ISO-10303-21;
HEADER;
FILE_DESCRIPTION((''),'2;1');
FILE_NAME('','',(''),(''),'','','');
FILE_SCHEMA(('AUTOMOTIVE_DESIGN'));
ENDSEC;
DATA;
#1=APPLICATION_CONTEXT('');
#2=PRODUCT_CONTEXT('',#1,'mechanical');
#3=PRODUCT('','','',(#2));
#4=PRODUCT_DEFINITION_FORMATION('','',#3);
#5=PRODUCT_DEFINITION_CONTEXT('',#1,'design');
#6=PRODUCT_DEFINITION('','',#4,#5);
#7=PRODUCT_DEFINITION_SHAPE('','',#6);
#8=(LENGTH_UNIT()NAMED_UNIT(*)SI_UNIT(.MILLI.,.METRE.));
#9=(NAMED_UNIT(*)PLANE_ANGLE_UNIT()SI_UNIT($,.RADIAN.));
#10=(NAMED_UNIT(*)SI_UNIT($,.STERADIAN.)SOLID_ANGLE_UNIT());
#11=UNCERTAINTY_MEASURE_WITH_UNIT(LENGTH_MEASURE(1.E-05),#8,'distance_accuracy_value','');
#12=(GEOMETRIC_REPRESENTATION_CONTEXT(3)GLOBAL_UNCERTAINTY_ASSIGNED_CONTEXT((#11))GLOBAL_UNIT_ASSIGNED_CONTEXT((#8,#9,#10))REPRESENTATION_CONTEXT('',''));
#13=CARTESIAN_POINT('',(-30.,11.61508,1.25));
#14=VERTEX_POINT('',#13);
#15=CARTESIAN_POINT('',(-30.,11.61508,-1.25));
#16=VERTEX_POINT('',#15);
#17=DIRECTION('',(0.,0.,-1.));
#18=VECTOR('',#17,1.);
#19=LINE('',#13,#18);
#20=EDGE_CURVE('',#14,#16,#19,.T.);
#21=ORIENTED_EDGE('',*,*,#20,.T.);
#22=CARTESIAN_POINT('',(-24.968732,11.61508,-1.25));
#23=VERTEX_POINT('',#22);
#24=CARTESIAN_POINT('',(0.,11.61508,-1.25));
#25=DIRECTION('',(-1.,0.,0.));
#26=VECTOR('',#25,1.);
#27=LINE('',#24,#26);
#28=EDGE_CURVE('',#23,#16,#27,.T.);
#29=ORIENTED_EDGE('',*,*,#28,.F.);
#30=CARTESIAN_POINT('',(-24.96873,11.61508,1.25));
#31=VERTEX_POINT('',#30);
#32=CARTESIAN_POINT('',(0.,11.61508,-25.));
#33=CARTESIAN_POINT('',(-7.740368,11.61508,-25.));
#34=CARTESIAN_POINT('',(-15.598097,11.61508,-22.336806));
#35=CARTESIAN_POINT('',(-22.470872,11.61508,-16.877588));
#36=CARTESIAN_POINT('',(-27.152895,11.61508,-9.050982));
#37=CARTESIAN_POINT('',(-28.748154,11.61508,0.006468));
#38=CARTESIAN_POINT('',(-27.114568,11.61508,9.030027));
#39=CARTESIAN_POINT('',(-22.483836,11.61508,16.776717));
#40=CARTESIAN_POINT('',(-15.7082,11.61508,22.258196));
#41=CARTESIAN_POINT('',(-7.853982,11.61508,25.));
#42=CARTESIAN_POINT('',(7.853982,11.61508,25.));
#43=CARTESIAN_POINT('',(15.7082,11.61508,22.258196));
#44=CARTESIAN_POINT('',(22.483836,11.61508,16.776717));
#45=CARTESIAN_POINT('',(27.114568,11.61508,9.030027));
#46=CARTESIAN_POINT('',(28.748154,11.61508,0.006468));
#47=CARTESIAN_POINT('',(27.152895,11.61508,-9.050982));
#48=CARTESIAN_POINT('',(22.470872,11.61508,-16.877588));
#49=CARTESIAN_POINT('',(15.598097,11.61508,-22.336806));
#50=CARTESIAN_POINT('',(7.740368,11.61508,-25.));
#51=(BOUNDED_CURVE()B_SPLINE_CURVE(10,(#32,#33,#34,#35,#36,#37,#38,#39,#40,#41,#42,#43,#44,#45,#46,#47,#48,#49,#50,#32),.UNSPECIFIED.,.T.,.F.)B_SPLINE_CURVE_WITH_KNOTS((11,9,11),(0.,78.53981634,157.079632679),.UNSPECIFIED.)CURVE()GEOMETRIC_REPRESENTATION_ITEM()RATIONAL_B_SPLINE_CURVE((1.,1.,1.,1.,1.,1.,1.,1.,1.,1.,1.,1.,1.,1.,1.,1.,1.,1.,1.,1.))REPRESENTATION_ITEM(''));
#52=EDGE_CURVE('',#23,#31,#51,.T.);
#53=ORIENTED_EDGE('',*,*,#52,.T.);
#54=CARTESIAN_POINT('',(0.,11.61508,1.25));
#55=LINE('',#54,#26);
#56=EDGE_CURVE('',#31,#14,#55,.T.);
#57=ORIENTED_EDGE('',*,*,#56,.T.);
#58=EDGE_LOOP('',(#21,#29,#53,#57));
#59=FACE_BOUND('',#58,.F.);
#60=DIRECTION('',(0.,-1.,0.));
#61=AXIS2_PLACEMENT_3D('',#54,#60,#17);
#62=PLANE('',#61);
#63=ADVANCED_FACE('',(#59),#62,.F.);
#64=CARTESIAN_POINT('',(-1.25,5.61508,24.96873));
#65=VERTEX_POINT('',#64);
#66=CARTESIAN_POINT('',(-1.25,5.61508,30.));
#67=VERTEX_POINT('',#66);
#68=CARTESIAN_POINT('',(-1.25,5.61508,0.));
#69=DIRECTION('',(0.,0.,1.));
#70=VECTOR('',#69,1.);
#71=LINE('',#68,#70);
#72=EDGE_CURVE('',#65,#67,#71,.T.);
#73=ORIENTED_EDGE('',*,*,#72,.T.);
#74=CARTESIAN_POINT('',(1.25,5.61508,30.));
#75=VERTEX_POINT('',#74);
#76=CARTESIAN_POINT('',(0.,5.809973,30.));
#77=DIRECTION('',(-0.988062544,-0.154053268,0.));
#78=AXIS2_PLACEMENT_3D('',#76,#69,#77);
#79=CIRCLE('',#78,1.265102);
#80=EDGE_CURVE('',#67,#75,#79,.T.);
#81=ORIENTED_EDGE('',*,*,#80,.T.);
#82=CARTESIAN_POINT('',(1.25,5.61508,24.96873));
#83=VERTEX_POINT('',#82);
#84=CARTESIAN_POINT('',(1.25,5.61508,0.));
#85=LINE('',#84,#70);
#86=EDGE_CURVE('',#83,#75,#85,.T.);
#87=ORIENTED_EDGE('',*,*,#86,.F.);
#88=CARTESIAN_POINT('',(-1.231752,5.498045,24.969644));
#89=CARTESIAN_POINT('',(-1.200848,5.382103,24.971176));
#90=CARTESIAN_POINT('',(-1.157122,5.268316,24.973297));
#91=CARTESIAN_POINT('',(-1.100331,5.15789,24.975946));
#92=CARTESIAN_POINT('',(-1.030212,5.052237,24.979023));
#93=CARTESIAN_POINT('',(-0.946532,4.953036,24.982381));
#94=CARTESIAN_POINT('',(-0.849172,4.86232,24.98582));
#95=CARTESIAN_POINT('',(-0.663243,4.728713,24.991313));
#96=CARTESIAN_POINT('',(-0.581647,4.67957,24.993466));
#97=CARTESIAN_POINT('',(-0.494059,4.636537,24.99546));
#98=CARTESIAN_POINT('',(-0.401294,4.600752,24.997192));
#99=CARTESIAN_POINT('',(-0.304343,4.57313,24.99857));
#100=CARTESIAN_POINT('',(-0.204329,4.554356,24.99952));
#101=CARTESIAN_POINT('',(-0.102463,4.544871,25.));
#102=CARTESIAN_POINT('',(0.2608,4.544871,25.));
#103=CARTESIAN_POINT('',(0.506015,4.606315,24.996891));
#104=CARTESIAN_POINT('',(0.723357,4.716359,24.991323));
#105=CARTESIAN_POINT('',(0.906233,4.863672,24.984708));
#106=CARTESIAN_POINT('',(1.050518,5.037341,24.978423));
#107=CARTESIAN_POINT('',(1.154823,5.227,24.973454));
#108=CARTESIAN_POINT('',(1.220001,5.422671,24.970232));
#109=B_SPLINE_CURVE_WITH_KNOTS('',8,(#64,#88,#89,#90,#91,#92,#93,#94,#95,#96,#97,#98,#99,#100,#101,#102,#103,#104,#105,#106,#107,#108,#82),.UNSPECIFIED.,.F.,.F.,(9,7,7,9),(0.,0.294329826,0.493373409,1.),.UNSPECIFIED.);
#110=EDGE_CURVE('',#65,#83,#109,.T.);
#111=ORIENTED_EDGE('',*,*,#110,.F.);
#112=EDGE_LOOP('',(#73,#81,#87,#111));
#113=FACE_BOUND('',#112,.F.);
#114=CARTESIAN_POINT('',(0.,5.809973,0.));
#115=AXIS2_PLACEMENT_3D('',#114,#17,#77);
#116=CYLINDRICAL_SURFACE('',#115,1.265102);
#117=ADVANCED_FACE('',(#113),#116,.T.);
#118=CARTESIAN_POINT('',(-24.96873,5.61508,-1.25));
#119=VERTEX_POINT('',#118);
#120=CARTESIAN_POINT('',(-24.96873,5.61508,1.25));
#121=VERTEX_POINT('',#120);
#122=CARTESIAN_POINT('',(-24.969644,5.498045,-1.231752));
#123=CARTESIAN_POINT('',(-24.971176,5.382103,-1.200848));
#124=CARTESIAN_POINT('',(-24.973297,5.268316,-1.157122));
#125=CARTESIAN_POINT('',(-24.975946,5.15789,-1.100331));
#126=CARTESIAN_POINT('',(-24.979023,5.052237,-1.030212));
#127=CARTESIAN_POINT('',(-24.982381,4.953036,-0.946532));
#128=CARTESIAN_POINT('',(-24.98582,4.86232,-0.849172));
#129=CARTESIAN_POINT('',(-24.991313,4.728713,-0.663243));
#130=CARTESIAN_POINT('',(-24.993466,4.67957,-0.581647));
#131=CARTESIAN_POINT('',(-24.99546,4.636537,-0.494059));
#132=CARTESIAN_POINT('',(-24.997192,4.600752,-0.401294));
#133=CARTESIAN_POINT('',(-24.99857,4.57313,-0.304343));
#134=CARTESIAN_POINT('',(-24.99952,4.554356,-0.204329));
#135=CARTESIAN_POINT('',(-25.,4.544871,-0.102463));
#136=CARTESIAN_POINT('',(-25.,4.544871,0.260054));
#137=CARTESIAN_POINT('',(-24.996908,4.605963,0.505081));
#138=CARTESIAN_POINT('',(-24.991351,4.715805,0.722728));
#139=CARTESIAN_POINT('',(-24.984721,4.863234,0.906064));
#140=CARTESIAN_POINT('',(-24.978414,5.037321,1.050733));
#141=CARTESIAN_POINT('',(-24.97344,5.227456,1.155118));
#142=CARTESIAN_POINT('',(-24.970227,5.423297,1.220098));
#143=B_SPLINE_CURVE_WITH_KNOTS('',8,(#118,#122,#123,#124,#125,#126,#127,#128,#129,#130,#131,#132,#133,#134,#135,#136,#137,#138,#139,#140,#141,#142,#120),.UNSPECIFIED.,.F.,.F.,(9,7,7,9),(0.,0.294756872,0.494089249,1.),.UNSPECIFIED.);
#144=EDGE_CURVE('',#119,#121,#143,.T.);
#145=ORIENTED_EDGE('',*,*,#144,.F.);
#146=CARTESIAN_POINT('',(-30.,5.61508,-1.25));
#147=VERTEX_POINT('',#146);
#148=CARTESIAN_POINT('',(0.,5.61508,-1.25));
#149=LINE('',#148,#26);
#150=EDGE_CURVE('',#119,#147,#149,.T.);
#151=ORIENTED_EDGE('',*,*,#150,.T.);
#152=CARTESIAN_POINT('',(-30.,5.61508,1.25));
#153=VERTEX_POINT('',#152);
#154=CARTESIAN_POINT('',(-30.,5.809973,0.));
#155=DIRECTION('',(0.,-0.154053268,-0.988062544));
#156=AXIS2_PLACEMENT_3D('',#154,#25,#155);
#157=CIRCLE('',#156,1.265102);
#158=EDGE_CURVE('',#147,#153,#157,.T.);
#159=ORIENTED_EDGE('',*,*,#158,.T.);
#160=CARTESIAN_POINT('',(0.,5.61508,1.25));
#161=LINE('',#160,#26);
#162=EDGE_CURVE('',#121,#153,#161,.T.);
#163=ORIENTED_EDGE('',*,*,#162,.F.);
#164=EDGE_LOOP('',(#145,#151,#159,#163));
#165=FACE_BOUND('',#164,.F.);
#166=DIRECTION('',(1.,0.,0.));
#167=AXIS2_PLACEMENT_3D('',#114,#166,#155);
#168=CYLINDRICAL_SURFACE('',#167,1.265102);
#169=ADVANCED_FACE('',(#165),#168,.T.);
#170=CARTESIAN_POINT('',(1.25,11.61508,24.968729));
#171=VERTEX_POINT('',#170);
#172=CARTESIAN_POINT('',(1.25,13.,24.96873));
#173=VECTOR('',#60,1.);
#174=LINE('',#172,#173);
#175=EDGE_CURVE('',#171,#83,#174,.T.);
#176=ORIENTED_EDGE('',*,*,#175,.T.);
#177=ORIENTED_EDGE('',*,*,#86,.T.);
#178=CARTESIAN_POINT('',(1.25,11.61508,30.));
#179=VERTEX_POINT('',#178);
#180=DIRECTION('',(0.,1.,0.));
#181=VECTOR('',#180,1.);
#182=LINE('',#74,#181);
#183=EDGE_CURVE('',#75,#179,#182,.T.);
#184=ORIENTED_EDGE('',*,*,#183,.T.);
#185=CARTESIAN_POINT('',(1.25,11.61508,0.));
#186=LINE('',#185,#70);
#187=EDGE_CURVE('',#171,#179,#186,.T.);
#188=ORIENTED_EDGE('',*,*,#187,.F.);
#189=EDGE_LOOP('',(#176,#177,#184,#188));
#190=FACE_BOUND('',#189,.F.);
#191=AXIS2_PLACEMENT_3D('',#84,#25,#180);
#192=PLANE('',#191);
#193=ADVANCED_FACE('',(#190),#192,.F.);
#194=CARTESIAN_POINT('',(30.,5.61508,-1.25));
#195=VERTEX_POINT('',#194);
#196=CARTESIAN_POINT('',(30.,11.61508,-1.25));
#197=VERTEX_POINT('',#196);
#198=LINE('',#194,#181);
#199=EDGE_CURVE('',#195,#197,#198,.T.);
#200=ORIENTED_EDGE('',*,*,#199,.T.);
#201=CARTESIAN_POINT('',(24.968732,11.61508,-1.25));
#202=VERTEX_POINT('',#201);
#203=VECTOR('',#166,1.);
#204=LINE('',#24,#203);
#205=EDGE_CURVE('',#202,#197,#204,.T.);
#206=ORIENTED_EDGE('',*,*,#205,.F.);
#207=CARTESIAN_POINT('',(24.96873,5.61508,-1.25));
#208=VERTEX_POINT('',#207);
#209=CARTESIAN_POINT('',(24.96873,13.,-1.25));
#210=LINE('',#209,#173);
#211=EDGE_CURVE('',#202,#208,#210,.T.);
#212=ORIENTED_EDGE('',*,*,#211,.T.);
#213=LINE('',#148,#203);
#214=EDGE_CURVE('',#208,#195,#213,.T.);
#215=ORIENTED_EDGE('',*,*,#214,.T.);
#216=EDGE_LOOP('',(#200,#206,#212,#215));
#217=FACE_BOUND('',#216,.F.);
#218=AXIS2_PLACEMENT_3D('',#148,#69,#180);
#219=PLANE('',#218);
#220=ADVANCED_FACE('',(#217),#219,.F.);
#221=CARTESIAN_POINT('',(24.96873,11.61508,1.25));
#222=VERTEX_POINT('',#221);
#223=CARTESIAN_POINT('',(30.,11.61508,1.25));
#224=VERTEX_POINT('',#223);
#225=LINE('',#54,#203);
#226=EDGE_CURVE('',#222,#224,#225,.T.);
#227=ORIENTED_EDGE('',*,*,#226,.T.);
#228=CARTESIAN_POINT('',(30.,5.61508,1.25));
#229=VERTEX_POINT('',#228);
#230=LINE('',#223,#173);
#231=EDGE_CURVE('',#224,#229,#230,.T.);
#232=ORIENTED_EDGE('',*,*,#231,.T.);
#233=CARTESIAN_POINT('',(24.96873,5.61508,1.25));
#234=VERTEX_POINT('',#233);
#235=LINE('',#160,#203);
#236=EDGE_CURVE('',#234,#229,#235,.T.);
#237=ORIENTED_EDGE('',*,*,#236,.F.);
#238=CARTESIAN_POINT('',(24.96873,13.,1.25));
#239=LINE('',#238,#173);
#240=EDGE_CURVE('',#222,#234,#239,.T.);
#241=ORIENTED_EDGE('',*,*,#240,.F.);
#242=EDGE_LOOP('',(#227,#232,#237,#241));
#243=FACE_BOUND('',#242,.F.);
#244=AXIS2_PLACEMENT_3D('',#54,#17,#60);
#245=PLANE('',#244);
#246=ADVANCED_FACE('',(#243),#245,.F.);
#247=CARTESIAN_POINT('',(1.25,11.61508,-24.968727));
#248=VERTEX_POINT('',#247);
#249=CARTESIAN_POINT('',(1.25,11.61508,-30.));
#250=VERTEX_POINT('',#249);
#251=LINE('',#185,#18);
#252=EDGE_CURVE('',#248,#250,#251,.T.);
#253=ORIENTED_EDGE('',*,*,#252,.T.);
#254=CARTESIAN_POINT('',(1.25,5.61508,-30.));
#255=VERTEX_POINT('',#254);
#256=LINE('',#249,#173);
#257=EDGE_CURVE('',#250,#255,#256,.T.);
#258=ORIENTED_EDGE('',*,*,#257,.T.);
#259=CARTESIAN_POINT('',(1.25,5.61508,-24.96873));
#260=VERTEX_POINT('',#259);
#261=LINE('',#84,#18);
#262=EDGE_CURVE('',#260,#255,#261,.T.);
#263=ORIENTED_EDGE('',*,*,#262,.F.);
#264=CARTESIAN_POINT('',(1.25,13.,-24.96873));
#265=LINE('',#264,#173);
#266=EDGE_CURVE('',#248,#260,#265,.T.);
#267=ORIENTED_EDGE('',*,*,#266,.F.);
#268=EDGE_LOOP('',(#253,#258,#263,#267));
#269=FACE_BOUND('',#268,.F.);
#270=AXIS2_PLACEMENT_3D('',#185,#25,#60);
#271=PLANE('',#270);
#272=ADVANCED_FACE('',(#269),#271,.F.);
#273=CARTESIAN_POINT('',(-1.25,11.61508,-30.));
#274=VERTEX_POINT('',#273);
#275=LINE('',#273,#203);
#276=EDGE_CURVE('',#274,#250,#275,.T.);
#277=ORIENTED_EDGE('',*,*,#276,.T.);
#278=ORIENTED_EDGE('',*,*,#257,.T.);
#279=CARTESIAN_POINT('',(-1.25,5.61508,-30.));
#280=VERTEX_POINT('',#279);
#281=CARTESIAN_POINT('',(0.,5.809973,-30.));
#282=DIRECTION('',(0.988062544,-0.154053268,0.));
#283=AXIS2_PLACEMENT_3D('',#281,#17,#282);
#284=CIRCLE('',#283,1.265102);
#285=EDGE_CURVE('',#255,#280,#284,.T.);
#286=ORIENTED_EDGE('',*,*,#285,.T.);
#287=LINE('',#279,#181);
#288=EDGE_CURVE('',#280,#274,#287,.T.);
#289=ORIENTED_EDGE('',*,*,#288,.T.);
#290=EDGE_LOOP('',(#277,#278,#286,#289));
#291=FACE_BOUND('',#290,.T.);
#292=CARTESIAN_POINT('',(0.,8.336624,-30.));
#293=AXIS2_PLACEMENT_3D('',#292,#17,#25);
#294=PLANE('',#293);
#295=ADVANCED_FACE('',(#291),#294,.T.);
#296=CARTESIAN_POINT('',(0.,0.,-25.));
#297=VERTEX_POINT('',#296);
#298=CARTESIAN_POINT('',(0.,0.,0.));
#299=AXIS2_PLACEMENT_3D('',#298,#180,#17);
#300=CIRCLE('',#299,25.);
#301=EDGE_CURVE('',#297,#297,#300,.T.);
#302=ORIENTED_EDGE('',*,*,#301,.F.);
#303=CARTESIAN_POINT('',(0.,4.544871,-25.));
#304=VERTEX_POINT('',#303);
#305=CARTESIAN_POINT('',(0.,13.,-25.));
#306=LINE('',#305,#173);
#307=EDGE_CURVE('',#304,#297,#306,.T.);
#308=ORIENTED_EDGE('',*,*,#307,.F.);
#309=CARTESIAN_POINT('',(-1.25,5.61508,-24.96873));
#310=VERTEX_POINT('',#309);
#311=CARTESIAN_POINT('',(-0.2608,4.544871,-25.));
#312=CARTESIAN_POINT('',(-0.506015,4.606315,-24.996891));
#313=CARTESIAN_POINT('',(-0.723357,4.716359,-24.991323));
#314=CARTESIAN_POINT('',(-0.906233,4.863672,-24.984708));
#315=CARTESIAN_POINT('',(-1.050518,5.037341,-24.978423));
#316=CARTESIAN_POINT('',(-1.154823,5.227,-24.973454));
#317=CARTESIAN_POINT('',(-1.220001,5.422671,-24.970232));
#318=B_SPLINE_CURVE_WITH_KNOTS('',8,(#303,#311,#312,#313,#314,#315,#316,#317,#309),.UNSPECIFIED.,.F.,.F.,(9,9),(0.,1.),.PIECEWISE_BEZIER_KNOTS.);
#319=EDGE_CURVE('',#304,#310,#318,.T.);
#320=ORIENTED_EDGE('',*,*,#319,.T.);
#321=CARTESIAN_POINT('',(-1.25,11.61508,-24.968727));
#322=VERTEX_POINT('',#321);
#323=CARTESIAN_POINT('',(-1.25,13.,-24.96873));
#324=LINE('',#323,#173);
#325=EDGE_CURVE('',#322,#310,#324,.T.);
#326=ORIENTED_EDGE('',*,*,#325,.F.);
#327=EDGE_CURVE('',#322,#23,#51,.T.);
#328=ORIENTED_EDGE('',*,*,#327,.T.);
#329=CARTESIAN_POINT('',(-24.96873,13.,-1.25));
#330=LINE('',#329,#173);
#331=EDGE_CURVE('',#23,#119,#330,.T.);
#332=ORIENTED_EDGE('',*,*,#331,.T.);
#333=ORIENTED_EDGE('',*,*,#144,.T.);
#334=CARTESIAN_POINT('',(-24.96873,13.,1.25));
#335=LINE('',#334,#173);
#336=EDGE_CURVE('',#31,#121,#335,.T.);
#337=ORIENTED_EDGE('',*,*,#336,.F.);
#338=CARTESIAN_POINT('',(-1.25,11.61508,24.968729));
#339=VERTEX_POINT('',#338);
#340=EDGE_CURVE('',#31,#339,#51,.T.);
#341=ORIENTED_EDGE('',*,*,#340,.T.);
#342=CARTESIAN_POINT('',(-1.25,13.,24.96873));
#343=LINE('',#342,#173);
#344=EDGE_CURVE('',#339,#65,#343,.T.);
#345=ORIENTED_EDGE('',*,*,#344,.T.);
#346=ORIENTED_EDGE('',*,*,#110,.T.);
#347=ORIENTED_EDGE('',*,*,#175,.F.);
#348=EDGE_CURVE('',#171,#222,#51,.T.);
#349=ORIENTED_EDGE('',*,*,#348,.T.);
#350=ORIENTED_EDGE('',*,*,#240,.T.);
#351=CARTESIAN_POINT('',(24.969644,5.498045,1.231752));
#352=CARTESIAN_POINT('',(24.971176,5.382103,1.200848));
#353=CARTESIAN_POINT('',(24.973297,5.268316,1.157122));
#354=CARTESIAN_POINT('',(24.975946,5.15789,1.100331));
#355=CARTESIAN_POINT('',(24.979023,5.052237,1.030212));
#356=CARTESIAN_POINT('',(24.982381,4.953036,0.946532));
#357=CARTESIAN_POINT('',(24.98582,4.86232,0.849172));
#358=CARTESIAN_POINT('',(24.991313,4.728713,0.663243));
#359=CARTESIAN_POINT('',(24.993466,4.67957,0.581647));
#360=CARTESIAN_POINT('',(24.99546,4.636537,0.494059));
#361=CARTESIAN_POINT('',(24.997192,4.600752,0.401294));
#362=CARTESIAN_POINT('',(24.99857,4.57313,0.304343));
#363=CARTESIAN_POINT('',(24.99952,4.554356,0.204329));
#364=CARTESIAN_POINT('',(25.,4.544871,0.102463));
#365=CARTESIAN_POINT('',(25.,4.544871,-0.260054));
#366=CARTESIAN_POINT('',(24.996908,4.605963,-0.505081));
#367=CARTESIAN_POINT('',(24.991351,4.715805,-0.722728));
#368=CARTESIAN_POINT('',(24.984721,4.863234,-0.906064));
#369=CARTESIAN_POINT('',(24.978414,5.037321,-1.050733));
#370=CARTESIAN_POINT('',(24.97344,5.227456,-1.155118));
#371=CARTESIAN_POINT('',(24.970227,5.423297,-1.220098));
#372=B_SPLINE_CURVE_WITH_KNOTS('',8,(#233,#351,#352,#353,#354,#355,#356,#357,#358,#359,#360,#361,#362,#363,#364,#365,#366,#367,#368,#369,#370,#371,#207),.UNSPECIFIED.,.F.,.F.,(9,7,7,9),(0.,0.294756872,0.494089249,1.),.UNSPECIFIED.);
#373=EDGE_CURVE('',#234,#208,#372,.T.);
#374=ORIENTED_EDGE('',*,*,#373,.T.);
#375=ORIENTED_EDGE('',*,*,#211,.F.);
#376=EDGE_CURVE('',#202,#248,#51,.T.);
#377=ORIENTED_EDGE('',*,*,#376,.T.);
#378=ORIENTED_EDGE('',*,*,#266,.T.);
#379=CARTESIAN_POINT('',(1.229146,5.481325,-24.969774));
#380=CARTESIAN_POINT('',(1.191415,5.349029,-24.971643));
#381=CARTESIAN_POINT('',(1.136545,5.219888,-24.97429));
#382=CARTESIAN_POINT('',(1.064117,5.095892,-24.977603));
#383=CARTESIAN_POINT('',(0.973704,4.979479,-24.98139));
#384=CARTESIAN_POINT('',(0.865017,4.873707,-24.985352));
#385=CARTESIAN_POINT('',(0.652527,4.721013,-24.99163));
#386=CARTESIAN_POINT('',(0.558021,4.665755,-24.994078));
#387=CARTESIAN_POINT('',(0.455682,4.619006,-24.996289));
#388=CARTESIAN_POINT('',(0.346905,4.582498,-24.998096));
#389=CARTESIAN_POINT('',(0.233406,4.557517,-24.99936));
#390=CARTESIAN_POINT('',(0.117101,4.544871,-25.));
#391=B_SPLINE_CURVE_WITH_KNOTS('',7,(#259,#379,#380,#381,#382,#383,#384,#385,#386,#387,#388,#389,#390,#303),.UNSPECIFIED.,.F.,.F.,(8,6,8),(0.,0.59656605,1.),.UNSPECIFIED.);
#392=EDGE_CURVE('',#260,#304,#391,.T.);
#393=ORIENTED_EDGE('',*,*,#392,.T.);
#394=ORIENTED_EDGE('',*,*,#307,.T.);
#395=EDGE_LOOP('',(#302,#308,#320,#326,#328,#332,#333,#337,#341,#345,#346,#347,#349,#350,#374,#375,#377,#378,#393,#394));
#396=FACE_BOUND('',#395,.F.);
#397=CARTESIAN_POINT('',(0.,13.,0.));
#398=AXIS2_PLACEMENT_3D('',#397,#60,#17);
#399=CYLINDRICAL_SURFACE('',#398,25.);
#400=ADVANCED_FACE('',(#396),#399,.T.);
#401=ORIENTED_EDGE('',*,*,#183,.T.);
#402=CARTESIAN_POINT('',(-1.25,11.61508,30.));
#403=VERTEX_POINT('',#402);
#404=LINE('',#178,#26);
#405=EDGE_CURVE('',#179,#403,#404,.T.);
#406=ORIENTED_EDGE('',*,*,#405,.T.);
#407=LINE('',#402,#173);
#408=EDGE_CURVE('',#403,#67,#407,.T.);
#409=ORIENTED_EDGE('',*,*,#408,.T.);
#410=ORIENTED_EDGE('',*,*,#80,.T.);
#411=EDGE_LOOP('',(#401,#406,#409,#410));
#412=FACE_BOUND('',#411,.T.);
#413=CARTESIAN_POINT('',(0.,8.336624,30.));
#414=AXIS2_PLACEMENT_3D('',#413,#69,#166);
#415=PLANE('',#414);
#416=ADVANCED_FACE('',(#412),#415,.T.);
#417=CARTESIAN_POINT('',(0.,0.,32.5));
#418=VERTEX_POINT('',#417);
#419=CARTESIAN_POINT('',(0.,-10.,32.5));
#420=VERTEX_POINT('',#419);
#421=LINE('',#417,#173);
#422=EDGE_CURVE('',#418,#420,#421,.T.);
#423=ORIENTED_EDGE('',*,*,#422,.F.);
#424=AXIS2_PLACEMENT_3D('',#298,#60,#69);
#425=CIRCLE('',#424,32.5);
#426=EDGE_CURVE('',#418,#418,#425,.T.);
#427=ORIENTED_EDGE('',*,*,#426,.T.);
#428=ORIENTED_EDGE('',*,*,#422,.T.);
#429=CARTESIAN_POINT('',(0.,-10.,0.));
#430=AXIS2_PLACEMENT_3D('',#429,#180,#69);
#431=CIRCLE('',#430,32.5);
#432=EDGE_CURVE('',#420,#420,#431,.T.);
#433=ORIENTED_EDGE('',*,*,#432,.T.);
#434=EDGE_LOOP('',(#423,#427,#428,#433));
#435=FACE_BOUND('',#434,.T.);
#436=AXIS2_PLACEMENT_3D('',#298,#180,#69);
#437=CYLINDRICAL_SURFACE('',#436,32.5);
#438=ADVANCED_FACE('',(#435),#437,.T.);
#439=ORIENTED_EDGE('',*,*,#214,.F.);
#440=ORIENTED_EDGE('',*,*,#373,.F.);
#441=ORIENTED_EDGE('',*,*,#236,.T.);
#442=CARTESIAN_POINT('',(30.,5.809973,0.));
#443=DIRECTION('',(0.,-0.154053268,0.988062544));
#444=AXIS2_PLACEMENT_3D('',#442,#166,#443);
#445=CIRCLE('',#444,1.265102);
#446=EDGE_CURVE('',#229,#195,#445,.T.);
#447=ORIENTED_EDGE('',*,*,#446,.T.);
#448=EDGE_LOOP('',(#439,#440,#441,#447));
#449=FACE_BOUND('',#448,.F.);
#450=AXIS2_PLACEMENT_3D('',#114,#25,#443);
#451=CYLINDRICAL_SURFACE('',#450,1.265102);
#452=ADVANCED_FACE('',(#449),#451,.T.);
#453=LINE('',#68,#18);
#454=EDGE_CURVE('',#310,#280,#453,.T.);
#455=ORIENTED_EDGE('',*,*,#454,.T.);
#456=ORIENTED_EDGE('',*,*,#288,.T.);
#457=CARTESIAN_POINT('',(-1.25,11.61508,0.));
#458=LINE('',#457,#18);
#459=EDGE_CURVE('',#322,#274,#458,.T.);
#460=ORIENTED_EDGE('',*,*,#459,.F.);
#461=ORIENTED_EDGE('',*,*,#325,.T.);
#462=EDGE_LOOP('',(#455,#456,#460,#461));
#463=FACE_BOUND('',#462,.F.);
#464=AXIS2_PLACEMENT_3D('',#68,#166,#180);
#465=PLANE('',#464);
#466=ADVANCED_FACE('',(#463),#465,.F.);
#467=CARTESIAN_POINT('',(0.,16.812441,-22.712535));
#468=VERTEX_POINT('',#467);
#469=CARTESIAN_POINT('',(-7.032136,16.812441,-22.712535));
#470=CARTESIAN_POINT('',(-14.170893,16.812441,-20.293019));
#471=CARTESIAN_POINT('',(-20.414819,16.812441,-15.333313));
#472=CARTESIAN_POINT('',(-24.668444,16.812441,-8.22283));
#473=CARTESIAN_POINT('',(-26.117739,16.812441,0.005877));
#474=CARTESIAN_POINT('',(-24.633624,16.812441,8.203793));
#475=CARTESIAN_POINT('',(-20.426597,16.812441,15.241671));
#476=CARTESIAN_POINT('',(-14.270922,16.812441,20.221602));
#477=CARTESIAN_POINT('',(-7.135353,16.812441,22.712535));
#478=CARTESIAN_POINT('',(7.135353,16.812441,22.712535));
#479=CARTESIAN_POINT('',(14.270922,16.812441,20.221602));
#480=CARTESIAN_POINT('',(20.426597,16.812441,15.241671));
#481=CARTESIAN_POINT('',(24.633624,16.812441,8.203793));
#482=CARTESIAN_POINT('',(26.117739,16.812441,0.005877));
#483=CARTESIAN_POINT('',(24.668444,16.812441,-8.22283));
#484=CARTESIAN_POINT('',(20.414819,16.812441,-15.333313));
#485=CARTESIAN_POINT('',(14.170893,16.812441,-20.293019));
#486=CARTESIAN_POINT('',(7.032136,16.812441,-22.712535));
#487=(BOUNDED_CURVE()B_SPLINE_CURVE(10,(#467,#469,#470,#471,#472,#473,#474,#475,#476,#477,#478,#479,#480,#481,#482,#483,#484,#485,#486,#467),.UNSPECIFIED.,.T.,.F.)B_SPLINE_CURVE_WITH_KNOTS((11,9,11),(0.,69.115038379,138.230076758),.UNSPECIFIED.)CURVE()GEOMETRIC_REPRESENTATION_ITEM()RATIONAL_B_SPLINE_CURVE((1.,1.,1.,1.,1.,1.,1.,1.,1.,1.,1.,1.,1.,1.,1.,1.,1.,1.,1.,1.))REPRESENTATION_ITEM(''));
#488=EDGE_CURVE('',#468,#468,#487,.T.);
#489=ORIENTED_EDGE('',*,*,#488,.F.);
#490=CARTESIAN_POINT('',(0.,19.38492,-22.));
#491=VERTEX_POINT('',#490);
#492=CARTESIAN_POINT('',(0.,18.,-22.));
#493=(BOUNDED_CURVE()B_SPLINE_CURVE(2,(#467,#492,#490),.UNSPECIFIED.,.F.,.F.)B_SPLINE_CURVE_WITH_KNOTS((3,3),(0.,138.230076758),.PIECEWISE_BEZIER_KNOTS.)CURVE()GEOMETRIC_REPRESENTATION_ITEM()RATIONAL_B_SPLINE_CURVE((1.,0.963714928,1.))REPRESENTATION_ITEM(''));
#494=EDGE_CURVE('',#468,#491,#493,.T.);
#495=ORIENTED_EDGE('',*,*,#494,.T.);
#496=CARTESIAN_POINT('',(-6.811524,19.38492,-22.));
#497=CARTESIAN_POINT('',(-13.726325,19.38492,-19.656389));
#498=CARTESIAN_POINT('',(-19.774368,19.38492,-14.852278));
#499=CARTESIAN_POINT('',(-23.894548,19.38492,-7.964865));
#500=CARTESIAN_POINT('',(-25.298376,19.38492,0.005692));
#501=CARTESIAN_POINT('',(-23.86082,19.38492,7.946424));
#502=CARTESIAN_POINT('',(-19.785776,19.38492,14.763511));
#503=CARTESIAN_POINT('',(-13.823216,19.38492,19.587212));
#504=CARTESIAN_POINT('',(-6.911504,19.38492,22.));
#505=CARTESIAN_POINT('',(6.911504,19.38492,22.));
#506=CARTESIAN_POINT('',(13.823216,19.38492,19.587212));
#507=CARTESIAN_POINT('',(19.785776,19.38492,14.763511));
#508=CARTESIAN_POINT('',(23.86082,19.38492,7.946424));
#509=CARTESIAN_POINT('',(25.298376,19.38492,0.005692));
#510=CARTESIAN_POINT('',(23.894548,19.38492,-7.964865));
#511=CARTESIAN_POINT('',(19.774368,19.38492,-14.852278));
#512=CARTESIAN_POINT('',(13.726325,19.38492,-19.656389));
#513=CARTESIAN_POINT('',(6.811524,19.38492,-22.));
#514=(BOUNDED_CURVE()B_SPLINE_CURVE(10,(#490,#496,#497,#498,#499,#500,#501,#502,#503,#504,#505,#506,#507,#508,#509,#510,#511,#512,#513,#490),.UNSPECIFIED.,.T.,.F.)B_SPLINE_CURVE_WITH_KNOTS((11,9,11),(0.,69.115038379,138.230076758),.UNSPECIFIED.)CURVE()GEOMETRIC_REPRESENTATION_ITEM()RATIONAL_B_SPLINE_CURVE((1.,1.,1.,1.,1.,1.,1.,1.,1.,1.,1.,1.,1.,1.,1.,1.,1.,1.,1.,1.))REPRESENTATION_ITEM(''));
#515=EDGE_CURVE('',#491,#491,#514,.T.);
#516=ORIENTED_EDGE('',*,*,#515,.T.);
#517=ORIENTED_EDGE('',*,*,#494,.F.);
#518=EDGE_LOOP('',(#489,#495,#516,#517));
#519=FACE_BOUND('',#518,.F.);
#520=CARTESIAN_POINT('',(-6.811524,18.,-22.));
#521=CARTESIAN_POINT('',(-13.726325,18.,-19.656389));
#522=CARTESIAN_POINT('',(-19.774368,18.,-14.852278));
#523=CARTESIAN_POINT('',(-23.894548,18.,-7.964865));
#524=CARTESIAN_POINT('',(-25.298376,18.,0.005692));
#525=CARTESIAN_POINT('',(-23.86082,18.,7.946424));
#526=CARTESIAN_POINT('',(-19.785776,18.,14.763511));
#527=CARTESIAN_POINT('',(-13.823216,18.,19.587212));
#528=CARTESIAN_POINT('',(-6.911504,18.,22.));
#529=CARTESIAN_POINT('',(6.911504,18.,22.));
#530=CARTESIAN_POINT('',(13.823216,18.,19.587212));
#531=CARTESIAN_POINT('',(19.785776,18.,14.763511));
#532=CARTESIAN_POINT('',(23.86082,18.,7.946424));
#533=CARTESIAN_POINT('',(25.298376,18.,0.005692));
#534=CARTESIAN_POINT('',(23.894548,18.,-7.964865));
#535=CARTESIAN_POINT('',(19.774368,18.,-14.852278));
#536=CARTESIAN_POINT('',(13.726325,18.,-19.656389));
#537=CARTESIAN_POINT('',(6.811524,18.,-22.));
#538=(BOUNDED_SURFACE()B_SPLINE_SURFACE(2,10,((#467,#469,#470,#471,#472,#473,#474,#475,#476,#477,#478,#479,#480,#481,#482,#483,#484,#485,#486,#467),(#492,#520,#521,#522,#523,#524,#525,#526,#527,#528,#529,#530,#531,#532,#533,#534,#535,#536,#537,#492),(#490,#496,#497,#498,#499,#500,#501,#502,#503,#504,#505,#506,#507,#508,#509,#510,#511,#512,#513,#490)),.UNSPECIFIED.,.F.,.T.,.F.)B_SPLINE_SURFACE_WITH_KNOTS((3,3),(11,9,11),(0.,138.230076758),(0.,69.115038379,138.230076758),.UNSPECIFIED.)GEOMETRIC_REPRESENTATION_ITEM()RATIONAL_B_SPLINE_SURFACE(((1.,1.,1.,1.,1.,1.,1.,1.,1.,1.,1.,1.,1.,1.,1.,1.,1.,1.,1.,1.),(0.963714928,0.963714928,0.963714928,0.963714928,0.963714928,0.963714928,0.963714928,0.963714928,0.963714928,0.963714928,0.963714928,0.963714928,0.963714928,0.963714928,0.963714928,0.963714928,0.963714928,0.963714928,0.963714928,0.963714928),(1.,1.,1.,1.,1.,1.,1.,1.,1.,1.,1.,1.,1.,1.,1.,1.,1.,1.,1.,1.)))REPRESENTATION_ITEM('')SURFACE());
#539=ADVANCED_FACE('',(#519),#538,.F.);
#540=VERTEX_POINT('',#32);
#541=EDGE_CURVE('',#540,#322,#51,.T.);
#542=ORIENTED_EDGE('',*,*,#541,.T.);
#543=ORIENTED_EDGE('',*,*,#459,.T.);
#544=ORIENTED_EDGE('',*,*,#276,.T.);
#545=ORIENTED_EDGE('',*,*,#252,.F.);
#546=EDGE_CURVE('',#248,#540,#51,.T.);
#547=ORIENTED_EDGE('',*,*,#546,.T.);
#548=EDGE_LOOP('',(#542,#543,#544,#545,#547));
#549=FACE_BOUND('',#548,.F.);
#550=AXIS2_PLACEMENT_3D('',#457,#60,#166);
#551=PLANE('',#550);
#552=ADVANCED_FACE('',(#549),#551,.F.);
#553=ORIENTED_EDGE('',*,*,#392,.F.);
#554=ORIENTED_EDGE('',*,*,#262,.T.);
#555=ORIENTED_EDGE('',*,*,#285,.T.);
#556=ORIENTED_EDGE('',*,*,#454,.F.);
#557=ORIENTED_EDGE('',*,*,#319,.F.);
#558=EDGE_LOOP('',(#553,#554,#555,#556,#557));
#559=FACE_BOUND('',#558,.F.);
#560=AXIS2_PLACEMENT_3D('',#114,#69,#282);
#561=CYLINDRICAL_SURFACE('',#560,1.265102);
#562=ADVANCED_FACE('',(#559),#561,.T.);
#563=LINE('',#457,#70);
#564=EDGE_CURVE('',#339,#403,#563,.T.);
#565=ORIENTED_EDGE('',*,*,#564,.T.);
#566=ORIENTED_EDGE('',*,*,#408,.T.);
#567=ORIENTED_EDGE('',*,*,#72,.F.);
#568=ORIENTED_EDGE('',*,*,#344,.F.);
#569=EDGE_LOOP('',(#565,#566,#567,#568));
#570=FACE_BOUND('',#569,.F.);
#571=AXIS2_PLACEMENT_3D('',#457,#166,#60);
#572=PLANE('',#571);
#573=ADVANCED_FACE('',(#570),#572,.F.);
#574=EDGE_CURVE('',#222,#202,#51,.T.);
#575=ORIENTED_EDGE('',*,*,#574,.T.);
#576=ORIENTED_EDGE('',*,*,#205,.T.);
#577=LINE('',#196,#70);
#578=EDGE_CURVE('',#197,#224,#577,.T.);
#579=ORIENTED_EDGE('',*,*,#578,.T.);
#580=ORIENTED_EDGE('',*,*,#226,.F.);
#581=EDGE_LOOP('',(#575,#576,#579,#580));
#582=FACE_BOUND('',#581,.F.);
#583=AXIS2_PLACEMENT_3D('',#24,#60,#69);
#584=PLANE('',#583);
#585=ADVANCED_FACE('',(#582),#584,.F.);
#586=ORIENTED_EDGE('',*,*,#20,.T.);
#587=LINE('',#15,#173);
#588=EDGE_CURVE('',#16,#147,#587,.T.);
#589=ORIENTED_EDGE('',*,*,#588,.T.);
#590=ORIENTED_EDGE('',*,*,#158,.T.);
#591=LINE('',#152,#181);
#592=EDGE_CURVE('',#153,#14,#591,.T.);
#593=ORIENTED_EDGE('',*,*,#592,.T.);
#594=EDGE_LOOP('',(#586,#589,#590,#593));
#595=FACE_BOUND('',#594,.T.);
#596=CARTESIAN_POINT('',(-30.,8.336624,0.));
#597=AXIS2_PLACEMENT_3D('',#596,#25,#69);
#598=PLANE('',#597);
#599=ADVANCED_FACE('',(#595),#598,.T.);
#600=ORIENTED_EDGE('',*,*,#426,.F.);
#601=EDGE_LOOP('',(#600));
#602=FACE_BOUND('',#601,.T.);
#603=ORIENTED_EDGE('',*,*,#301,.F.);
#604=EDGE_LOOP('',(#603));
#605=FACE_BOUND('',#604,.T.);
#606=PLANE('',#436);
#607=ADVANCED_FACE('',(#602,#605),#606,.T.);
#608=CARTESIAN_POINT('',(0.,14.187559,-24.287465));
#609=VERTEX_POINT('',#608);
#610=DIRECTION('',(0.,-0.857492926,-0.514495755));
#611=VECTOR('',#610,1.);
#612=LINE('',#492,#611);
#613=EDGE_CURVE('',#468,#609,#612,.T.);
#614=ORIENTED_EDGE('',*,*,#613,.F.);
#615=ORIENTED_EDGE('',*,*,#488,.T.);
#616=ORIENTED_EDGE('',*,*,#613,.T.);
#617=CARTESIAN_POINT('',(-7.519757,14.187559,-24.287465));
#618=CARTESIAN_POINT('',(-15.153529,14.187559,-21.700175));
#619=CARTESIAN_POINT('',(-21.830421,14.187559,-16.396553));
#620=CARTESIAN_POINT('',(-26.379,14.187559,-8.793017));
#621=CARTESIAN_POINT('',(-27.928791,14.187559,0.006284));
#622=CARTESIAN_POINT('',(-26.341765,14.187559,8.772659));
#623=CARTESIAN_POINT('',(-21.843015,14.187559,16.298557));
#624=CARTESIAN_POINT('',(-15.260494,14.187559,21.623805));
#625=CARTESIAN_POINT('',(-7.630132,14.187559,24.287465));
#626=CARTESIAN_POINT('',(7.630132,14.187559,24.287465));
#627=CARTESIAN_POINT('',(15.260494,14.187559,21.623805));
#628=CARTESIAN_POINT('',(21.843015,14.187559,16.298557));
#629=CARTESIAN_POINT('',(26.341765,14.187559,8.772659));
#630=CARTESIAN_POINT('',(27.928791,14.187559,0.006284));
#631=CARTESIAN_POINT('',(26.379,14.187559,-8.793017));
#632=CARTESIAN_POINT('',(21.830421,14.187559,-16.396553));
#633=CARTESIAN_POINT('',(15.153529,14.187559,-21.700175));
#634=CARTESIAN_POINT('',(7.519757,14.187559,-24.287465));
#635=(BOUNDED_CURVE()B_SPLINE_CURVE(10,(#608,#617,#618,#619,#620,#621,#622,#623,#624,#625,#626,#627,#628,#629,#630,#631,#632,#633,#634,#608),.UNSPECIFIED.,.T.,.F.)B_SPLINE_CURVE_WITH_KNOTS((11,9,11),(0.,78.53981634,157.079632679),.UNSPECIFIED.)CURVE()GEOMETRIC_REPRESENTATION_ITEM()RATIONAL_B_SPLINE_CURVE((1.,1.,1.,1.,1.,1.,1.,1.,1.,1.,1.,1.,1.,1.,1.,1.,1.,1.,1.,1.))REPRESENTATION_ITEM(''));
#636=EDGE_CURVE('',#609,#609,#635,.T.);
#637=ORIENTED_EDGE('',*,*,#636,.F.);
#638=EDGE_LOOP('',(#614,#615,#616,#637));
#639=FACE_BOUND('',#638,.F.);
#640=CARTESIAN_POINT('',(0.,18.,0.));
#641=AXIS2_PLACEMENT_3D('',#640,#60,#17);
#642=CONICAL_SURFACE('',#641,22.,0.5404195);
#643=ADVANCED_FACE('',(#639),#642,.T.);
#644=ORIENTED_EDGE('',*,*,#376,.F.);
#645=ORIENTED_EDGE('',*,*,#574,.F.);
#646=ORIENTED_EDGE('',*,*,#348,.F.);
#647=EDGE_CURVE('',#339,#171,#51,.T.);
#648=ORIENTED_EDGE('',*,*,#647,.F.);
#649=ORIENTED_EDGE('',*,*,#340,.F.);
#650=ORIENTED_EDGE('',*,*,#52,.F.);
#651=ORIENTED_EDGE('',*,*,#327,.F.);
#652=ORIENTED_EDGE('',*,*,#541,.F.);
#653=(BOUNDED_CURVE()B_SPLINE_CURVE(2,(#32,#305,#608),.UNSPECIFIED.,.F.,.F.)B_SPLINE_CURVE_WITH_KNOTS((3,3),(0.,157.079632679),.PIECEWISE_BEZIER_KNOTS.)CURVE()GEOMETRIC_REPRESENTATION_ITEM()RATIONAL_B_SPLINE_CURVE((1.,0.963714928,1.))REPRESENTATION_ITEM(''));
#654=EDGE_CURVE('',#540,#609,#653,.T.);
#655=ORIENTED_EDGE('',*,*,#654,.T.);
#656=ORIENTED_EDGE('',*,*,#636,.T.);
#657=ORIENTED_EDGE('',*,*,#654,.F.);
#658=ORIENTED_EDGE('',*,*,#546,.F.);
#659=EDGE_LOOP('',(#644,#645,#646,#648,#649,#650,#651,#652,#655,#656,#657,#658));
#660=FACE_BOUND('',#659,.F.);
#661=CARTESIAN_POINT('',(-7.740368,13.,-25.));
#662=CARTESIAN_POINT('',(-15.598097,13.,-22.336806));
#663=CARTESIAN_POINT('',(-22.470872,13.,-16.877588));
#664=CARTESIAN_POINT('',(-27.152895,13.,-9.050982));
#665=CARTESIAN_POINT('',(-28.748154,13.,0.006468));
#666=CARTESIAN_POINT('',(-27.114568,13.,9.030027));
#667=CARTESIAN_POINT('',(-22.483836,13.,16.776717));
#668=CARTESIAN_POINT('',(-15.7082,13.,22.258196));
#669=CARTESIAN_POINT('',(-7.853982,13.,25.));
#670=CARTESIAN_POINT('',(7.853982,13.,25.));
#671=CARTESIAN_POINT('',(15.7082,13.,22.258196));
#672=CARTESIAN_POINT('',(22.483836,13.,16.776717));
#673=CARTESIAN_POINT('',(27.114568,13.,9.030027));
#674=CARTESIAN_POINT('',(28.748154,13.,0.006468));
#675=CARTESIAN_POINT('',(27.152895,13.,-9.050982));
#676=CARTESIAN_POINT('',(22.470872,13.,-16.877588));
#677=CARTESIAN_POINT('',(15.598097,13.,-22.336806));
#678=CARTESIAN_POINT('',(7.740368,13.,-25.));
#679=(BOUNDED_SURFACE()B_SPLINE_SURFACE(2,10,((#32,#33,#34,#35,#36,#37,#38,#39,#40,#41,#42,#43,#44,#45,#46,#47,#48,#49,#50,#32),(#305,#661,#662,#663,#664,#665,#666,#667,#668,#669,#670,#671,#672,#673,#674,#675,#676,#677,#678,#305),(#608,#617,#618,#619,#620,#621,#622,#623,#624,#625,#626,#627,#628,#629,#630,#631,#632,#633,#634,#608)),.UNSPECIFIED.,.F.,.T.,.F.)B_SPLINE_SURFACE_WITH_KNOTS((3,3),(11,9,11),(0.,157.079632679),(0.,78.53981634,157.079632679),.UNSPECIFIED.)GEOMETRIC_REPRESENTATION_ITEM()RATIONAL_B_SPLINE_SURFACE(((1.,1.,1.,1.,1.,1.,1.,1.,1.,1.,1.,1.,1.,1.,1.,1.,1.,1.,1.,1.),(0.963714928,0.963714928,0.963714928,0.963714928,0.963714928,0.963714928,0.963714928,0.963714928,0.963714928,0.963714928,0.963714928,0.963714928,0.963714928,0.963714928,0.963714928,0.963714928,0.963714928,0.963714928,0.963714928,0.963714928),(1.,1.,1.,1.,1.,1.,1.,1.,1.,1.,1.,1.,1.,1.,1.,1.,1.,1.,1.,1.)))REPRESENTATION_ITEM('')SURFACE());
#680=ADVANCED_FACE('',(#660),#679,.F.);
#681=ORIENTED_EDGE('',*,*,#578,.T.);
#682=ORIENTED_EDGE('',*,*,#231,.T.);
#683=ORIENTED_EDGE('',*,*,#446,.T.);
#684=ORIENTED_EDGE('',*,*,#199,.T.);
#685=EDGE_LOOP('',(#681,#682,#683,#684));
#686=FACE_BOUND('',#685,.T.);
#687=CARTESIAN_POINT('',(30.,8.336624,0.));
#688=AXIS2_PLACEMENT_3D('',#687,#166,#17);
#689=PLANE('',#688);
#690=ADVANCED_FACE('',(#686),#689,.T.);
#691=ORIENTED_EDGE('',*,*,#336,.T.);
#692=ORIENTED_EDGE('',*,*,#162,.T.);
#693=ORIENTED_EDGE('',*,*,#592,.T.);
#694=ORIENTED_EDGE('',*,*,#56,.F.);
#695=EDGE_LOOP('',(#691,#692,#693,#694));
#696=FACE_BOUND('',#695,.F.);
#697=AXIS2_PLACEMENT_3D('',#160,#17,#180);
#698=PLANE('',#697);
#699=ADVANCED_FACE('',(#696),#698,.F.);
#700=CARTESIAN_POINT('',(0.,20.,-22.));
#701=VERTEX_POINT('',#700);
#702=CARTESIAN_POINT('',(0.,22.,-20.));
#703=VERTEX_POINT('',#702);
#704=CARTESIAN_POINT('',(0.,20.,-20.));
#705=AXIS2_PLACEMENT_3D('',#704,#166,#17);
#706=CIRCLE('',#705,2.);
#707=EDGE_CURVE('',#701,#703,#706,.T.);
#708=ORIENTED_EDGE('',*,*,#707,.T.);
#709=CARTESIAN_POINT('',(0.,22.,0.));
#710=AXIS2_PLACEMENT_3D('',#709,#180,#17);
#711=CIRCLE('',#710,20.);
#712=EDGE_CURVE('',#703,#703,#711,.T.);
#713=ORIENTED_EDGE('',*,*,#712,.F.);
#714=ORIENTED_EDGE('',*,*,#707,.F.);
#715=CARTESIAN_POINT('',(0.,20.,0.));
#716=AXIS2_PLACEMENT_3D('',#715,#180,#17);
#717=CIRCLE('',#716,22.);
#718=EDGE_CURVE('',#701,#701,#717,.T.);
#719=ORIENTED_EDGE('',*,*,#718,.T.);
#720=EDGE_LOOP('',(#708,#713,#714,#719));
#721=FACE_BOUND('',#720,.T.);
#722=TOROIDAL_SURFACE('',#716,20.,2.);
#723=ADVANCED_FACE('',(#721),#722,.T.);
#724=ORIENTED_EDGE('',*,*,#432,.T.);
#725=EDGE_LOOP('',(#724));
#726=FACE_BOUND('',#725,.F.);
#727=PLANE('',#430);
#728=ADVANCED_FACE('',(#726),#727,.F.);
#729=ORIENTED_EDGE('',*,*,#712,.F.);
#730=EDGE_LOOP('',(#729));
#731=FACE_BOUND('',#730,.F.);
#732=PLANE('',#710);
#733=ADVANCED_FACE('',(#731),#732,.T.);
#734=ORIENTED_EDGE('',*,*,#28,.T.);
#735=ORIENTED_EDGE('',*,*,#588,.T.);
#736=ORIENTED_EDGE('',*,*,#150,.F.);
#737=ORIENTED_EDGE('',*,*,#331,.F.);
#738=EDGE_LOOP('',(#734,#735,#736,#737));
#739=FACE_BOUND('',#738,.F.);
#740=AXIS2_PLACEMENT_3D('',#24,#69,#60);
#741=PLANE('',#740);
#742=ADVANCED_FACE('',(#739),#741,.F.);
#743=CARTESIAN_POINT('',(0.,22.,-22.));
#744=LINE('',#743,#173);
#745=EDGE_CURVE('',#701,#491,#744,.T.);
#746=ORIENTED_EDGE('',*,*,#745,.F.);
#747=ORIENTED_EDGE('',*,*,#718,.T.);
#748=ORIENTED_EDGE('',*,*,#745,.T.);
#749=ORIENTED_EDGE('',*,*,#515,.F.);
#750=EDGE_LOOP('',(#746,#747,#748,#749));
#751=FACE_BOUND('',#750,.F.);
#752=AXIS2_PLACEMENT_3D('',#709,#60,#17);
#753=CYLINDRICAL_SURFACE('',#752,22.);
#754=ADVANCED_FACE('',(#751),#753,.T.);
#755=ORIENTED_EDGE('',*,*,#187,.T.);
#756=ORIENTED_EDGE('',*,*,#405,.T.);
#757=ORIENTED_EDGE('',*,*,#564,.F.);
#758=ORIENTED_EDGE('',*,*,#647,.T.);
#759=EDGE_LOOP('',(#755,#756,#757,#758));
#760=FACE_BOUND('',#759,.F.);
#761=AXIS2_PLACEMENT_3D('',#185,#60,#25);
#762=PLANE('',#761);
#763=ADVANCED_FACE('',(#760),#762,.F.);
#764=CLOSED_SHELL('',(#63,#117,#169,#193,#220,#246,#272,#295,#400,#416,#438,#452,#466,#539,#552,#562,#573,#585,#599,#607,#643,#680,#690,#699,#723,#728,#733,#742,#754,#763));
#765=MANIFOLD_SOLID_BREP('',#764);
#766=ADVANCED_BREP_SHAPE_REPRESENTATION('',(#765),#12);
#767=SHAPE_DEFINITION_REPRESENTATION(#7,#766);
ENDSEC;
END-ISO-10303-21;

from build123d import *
from OCP.BRepFilletAPI import BRepFilletAPI_MakeFillet

# Parameters (mm, degrees)
SKETCH1_R           = 32.5
BOSS_EXTRUDE1_DEPTH = 10
FILLET1_R1          = 5
FILLET1_R2          = 2
BOSS_EXTRUDE2_DEPTH = 30
CIRPATTERN1_COUNT   = 4


with BuildPart() as part:
    # Sketch1 → Boss-Extrude1 (new body)
    with BuildSketch(Plane(origin=(0, 0, 0), x_dir=(1, 0, 0), z_dir=(0, 1, 0))):
        with Locations(Location((0, 0, 0), (0, 0, 270))):
            Circle(SKETCH1_R)
    boss_extrude1 = extrude(amount=-BOSS_EXTRUDE1_DEPTH)

    # Sketch2 → Revolve1 (revolve)
    with BuildSketch(Plane(origin=(0, 0, 0), x_dir=(0, 0, -1), z_dir=(1, 0, 0))):
        Polygon((0, 0), (0, 22), (22, 22), (22, 18), (25, 13), (25, 0), align=None)
    revolve(axis=Axis((0, 0, 0), (0, 1, 0)))

    # Fillet1: one fillet with a radius per group of edges: ONE call of the kernel's fillet builder (fillet() takes one radius for all edges)
    fillet1_edges_1 = [part.edges().sort_by_distance(p)[0] for p in [
        (0, 18, 22),
        (0, 13, 25),
    ]]
    fillet1_edges_2 = [part.edges().sort_by_distance(p)[0] for p in [
        (0, 22, 22),
    ]]
    fillet1 = BRepFilletAPI_MakeFillet(part.part.solid().wrapped)
    for e in fillet1_edges_1:
        fillet1.Add(FILLET1_R1, e.wrapped)
    for e in fillet1_edges_2:
        fillet1.Add(FILLET1_R2, e.wrapped)
    add(Compound.cast(fillet1.Shape()), mode=Mode.REPLACE)

    # Sketch3 → Boss-Extrude2 (add)
    with BuildSketch(Plane(origin=(0, 0, 0), x_dir=(0, 0, -1), z_dir=(1, 0, 0))):
        with BuildLine():
            Line((1.25, 11.615080175), (-1.25, 11.615080175))
            Line((-1.25, 11.615080175), (-1.25, 5.615080175))
            ThreePointArc((-1.25, 5.615080175), (0, 4.544871187), (1.25, 5.615080175))
            Line((1.25, 5.615080175), (1.25, 11.615080175))
        make_face()
    boss_extrude2 = extrude(amount=BOSS_EXTRUDE2_DEPTH)

    # CirPattern1: Boss-Extrude1, Boss-Extrude2 ×4 about axis
    cirpattern1_axis = Axis((0, 0, 0), (0, 1, 0))
    add([boss_extrude1.rotate(cirpattern1_axis, i * 360 / CIRPATTERN1_COUNT) for i in range(1, CIRPATTERN1_COUNT)])
    add([boss_extrude2.rotate(cirpattern1_axis, i * 360 / CIRPATTERN1_COUNT) for i in range(1, CIRPATTERN1_COUNT)])


solid = part.part
